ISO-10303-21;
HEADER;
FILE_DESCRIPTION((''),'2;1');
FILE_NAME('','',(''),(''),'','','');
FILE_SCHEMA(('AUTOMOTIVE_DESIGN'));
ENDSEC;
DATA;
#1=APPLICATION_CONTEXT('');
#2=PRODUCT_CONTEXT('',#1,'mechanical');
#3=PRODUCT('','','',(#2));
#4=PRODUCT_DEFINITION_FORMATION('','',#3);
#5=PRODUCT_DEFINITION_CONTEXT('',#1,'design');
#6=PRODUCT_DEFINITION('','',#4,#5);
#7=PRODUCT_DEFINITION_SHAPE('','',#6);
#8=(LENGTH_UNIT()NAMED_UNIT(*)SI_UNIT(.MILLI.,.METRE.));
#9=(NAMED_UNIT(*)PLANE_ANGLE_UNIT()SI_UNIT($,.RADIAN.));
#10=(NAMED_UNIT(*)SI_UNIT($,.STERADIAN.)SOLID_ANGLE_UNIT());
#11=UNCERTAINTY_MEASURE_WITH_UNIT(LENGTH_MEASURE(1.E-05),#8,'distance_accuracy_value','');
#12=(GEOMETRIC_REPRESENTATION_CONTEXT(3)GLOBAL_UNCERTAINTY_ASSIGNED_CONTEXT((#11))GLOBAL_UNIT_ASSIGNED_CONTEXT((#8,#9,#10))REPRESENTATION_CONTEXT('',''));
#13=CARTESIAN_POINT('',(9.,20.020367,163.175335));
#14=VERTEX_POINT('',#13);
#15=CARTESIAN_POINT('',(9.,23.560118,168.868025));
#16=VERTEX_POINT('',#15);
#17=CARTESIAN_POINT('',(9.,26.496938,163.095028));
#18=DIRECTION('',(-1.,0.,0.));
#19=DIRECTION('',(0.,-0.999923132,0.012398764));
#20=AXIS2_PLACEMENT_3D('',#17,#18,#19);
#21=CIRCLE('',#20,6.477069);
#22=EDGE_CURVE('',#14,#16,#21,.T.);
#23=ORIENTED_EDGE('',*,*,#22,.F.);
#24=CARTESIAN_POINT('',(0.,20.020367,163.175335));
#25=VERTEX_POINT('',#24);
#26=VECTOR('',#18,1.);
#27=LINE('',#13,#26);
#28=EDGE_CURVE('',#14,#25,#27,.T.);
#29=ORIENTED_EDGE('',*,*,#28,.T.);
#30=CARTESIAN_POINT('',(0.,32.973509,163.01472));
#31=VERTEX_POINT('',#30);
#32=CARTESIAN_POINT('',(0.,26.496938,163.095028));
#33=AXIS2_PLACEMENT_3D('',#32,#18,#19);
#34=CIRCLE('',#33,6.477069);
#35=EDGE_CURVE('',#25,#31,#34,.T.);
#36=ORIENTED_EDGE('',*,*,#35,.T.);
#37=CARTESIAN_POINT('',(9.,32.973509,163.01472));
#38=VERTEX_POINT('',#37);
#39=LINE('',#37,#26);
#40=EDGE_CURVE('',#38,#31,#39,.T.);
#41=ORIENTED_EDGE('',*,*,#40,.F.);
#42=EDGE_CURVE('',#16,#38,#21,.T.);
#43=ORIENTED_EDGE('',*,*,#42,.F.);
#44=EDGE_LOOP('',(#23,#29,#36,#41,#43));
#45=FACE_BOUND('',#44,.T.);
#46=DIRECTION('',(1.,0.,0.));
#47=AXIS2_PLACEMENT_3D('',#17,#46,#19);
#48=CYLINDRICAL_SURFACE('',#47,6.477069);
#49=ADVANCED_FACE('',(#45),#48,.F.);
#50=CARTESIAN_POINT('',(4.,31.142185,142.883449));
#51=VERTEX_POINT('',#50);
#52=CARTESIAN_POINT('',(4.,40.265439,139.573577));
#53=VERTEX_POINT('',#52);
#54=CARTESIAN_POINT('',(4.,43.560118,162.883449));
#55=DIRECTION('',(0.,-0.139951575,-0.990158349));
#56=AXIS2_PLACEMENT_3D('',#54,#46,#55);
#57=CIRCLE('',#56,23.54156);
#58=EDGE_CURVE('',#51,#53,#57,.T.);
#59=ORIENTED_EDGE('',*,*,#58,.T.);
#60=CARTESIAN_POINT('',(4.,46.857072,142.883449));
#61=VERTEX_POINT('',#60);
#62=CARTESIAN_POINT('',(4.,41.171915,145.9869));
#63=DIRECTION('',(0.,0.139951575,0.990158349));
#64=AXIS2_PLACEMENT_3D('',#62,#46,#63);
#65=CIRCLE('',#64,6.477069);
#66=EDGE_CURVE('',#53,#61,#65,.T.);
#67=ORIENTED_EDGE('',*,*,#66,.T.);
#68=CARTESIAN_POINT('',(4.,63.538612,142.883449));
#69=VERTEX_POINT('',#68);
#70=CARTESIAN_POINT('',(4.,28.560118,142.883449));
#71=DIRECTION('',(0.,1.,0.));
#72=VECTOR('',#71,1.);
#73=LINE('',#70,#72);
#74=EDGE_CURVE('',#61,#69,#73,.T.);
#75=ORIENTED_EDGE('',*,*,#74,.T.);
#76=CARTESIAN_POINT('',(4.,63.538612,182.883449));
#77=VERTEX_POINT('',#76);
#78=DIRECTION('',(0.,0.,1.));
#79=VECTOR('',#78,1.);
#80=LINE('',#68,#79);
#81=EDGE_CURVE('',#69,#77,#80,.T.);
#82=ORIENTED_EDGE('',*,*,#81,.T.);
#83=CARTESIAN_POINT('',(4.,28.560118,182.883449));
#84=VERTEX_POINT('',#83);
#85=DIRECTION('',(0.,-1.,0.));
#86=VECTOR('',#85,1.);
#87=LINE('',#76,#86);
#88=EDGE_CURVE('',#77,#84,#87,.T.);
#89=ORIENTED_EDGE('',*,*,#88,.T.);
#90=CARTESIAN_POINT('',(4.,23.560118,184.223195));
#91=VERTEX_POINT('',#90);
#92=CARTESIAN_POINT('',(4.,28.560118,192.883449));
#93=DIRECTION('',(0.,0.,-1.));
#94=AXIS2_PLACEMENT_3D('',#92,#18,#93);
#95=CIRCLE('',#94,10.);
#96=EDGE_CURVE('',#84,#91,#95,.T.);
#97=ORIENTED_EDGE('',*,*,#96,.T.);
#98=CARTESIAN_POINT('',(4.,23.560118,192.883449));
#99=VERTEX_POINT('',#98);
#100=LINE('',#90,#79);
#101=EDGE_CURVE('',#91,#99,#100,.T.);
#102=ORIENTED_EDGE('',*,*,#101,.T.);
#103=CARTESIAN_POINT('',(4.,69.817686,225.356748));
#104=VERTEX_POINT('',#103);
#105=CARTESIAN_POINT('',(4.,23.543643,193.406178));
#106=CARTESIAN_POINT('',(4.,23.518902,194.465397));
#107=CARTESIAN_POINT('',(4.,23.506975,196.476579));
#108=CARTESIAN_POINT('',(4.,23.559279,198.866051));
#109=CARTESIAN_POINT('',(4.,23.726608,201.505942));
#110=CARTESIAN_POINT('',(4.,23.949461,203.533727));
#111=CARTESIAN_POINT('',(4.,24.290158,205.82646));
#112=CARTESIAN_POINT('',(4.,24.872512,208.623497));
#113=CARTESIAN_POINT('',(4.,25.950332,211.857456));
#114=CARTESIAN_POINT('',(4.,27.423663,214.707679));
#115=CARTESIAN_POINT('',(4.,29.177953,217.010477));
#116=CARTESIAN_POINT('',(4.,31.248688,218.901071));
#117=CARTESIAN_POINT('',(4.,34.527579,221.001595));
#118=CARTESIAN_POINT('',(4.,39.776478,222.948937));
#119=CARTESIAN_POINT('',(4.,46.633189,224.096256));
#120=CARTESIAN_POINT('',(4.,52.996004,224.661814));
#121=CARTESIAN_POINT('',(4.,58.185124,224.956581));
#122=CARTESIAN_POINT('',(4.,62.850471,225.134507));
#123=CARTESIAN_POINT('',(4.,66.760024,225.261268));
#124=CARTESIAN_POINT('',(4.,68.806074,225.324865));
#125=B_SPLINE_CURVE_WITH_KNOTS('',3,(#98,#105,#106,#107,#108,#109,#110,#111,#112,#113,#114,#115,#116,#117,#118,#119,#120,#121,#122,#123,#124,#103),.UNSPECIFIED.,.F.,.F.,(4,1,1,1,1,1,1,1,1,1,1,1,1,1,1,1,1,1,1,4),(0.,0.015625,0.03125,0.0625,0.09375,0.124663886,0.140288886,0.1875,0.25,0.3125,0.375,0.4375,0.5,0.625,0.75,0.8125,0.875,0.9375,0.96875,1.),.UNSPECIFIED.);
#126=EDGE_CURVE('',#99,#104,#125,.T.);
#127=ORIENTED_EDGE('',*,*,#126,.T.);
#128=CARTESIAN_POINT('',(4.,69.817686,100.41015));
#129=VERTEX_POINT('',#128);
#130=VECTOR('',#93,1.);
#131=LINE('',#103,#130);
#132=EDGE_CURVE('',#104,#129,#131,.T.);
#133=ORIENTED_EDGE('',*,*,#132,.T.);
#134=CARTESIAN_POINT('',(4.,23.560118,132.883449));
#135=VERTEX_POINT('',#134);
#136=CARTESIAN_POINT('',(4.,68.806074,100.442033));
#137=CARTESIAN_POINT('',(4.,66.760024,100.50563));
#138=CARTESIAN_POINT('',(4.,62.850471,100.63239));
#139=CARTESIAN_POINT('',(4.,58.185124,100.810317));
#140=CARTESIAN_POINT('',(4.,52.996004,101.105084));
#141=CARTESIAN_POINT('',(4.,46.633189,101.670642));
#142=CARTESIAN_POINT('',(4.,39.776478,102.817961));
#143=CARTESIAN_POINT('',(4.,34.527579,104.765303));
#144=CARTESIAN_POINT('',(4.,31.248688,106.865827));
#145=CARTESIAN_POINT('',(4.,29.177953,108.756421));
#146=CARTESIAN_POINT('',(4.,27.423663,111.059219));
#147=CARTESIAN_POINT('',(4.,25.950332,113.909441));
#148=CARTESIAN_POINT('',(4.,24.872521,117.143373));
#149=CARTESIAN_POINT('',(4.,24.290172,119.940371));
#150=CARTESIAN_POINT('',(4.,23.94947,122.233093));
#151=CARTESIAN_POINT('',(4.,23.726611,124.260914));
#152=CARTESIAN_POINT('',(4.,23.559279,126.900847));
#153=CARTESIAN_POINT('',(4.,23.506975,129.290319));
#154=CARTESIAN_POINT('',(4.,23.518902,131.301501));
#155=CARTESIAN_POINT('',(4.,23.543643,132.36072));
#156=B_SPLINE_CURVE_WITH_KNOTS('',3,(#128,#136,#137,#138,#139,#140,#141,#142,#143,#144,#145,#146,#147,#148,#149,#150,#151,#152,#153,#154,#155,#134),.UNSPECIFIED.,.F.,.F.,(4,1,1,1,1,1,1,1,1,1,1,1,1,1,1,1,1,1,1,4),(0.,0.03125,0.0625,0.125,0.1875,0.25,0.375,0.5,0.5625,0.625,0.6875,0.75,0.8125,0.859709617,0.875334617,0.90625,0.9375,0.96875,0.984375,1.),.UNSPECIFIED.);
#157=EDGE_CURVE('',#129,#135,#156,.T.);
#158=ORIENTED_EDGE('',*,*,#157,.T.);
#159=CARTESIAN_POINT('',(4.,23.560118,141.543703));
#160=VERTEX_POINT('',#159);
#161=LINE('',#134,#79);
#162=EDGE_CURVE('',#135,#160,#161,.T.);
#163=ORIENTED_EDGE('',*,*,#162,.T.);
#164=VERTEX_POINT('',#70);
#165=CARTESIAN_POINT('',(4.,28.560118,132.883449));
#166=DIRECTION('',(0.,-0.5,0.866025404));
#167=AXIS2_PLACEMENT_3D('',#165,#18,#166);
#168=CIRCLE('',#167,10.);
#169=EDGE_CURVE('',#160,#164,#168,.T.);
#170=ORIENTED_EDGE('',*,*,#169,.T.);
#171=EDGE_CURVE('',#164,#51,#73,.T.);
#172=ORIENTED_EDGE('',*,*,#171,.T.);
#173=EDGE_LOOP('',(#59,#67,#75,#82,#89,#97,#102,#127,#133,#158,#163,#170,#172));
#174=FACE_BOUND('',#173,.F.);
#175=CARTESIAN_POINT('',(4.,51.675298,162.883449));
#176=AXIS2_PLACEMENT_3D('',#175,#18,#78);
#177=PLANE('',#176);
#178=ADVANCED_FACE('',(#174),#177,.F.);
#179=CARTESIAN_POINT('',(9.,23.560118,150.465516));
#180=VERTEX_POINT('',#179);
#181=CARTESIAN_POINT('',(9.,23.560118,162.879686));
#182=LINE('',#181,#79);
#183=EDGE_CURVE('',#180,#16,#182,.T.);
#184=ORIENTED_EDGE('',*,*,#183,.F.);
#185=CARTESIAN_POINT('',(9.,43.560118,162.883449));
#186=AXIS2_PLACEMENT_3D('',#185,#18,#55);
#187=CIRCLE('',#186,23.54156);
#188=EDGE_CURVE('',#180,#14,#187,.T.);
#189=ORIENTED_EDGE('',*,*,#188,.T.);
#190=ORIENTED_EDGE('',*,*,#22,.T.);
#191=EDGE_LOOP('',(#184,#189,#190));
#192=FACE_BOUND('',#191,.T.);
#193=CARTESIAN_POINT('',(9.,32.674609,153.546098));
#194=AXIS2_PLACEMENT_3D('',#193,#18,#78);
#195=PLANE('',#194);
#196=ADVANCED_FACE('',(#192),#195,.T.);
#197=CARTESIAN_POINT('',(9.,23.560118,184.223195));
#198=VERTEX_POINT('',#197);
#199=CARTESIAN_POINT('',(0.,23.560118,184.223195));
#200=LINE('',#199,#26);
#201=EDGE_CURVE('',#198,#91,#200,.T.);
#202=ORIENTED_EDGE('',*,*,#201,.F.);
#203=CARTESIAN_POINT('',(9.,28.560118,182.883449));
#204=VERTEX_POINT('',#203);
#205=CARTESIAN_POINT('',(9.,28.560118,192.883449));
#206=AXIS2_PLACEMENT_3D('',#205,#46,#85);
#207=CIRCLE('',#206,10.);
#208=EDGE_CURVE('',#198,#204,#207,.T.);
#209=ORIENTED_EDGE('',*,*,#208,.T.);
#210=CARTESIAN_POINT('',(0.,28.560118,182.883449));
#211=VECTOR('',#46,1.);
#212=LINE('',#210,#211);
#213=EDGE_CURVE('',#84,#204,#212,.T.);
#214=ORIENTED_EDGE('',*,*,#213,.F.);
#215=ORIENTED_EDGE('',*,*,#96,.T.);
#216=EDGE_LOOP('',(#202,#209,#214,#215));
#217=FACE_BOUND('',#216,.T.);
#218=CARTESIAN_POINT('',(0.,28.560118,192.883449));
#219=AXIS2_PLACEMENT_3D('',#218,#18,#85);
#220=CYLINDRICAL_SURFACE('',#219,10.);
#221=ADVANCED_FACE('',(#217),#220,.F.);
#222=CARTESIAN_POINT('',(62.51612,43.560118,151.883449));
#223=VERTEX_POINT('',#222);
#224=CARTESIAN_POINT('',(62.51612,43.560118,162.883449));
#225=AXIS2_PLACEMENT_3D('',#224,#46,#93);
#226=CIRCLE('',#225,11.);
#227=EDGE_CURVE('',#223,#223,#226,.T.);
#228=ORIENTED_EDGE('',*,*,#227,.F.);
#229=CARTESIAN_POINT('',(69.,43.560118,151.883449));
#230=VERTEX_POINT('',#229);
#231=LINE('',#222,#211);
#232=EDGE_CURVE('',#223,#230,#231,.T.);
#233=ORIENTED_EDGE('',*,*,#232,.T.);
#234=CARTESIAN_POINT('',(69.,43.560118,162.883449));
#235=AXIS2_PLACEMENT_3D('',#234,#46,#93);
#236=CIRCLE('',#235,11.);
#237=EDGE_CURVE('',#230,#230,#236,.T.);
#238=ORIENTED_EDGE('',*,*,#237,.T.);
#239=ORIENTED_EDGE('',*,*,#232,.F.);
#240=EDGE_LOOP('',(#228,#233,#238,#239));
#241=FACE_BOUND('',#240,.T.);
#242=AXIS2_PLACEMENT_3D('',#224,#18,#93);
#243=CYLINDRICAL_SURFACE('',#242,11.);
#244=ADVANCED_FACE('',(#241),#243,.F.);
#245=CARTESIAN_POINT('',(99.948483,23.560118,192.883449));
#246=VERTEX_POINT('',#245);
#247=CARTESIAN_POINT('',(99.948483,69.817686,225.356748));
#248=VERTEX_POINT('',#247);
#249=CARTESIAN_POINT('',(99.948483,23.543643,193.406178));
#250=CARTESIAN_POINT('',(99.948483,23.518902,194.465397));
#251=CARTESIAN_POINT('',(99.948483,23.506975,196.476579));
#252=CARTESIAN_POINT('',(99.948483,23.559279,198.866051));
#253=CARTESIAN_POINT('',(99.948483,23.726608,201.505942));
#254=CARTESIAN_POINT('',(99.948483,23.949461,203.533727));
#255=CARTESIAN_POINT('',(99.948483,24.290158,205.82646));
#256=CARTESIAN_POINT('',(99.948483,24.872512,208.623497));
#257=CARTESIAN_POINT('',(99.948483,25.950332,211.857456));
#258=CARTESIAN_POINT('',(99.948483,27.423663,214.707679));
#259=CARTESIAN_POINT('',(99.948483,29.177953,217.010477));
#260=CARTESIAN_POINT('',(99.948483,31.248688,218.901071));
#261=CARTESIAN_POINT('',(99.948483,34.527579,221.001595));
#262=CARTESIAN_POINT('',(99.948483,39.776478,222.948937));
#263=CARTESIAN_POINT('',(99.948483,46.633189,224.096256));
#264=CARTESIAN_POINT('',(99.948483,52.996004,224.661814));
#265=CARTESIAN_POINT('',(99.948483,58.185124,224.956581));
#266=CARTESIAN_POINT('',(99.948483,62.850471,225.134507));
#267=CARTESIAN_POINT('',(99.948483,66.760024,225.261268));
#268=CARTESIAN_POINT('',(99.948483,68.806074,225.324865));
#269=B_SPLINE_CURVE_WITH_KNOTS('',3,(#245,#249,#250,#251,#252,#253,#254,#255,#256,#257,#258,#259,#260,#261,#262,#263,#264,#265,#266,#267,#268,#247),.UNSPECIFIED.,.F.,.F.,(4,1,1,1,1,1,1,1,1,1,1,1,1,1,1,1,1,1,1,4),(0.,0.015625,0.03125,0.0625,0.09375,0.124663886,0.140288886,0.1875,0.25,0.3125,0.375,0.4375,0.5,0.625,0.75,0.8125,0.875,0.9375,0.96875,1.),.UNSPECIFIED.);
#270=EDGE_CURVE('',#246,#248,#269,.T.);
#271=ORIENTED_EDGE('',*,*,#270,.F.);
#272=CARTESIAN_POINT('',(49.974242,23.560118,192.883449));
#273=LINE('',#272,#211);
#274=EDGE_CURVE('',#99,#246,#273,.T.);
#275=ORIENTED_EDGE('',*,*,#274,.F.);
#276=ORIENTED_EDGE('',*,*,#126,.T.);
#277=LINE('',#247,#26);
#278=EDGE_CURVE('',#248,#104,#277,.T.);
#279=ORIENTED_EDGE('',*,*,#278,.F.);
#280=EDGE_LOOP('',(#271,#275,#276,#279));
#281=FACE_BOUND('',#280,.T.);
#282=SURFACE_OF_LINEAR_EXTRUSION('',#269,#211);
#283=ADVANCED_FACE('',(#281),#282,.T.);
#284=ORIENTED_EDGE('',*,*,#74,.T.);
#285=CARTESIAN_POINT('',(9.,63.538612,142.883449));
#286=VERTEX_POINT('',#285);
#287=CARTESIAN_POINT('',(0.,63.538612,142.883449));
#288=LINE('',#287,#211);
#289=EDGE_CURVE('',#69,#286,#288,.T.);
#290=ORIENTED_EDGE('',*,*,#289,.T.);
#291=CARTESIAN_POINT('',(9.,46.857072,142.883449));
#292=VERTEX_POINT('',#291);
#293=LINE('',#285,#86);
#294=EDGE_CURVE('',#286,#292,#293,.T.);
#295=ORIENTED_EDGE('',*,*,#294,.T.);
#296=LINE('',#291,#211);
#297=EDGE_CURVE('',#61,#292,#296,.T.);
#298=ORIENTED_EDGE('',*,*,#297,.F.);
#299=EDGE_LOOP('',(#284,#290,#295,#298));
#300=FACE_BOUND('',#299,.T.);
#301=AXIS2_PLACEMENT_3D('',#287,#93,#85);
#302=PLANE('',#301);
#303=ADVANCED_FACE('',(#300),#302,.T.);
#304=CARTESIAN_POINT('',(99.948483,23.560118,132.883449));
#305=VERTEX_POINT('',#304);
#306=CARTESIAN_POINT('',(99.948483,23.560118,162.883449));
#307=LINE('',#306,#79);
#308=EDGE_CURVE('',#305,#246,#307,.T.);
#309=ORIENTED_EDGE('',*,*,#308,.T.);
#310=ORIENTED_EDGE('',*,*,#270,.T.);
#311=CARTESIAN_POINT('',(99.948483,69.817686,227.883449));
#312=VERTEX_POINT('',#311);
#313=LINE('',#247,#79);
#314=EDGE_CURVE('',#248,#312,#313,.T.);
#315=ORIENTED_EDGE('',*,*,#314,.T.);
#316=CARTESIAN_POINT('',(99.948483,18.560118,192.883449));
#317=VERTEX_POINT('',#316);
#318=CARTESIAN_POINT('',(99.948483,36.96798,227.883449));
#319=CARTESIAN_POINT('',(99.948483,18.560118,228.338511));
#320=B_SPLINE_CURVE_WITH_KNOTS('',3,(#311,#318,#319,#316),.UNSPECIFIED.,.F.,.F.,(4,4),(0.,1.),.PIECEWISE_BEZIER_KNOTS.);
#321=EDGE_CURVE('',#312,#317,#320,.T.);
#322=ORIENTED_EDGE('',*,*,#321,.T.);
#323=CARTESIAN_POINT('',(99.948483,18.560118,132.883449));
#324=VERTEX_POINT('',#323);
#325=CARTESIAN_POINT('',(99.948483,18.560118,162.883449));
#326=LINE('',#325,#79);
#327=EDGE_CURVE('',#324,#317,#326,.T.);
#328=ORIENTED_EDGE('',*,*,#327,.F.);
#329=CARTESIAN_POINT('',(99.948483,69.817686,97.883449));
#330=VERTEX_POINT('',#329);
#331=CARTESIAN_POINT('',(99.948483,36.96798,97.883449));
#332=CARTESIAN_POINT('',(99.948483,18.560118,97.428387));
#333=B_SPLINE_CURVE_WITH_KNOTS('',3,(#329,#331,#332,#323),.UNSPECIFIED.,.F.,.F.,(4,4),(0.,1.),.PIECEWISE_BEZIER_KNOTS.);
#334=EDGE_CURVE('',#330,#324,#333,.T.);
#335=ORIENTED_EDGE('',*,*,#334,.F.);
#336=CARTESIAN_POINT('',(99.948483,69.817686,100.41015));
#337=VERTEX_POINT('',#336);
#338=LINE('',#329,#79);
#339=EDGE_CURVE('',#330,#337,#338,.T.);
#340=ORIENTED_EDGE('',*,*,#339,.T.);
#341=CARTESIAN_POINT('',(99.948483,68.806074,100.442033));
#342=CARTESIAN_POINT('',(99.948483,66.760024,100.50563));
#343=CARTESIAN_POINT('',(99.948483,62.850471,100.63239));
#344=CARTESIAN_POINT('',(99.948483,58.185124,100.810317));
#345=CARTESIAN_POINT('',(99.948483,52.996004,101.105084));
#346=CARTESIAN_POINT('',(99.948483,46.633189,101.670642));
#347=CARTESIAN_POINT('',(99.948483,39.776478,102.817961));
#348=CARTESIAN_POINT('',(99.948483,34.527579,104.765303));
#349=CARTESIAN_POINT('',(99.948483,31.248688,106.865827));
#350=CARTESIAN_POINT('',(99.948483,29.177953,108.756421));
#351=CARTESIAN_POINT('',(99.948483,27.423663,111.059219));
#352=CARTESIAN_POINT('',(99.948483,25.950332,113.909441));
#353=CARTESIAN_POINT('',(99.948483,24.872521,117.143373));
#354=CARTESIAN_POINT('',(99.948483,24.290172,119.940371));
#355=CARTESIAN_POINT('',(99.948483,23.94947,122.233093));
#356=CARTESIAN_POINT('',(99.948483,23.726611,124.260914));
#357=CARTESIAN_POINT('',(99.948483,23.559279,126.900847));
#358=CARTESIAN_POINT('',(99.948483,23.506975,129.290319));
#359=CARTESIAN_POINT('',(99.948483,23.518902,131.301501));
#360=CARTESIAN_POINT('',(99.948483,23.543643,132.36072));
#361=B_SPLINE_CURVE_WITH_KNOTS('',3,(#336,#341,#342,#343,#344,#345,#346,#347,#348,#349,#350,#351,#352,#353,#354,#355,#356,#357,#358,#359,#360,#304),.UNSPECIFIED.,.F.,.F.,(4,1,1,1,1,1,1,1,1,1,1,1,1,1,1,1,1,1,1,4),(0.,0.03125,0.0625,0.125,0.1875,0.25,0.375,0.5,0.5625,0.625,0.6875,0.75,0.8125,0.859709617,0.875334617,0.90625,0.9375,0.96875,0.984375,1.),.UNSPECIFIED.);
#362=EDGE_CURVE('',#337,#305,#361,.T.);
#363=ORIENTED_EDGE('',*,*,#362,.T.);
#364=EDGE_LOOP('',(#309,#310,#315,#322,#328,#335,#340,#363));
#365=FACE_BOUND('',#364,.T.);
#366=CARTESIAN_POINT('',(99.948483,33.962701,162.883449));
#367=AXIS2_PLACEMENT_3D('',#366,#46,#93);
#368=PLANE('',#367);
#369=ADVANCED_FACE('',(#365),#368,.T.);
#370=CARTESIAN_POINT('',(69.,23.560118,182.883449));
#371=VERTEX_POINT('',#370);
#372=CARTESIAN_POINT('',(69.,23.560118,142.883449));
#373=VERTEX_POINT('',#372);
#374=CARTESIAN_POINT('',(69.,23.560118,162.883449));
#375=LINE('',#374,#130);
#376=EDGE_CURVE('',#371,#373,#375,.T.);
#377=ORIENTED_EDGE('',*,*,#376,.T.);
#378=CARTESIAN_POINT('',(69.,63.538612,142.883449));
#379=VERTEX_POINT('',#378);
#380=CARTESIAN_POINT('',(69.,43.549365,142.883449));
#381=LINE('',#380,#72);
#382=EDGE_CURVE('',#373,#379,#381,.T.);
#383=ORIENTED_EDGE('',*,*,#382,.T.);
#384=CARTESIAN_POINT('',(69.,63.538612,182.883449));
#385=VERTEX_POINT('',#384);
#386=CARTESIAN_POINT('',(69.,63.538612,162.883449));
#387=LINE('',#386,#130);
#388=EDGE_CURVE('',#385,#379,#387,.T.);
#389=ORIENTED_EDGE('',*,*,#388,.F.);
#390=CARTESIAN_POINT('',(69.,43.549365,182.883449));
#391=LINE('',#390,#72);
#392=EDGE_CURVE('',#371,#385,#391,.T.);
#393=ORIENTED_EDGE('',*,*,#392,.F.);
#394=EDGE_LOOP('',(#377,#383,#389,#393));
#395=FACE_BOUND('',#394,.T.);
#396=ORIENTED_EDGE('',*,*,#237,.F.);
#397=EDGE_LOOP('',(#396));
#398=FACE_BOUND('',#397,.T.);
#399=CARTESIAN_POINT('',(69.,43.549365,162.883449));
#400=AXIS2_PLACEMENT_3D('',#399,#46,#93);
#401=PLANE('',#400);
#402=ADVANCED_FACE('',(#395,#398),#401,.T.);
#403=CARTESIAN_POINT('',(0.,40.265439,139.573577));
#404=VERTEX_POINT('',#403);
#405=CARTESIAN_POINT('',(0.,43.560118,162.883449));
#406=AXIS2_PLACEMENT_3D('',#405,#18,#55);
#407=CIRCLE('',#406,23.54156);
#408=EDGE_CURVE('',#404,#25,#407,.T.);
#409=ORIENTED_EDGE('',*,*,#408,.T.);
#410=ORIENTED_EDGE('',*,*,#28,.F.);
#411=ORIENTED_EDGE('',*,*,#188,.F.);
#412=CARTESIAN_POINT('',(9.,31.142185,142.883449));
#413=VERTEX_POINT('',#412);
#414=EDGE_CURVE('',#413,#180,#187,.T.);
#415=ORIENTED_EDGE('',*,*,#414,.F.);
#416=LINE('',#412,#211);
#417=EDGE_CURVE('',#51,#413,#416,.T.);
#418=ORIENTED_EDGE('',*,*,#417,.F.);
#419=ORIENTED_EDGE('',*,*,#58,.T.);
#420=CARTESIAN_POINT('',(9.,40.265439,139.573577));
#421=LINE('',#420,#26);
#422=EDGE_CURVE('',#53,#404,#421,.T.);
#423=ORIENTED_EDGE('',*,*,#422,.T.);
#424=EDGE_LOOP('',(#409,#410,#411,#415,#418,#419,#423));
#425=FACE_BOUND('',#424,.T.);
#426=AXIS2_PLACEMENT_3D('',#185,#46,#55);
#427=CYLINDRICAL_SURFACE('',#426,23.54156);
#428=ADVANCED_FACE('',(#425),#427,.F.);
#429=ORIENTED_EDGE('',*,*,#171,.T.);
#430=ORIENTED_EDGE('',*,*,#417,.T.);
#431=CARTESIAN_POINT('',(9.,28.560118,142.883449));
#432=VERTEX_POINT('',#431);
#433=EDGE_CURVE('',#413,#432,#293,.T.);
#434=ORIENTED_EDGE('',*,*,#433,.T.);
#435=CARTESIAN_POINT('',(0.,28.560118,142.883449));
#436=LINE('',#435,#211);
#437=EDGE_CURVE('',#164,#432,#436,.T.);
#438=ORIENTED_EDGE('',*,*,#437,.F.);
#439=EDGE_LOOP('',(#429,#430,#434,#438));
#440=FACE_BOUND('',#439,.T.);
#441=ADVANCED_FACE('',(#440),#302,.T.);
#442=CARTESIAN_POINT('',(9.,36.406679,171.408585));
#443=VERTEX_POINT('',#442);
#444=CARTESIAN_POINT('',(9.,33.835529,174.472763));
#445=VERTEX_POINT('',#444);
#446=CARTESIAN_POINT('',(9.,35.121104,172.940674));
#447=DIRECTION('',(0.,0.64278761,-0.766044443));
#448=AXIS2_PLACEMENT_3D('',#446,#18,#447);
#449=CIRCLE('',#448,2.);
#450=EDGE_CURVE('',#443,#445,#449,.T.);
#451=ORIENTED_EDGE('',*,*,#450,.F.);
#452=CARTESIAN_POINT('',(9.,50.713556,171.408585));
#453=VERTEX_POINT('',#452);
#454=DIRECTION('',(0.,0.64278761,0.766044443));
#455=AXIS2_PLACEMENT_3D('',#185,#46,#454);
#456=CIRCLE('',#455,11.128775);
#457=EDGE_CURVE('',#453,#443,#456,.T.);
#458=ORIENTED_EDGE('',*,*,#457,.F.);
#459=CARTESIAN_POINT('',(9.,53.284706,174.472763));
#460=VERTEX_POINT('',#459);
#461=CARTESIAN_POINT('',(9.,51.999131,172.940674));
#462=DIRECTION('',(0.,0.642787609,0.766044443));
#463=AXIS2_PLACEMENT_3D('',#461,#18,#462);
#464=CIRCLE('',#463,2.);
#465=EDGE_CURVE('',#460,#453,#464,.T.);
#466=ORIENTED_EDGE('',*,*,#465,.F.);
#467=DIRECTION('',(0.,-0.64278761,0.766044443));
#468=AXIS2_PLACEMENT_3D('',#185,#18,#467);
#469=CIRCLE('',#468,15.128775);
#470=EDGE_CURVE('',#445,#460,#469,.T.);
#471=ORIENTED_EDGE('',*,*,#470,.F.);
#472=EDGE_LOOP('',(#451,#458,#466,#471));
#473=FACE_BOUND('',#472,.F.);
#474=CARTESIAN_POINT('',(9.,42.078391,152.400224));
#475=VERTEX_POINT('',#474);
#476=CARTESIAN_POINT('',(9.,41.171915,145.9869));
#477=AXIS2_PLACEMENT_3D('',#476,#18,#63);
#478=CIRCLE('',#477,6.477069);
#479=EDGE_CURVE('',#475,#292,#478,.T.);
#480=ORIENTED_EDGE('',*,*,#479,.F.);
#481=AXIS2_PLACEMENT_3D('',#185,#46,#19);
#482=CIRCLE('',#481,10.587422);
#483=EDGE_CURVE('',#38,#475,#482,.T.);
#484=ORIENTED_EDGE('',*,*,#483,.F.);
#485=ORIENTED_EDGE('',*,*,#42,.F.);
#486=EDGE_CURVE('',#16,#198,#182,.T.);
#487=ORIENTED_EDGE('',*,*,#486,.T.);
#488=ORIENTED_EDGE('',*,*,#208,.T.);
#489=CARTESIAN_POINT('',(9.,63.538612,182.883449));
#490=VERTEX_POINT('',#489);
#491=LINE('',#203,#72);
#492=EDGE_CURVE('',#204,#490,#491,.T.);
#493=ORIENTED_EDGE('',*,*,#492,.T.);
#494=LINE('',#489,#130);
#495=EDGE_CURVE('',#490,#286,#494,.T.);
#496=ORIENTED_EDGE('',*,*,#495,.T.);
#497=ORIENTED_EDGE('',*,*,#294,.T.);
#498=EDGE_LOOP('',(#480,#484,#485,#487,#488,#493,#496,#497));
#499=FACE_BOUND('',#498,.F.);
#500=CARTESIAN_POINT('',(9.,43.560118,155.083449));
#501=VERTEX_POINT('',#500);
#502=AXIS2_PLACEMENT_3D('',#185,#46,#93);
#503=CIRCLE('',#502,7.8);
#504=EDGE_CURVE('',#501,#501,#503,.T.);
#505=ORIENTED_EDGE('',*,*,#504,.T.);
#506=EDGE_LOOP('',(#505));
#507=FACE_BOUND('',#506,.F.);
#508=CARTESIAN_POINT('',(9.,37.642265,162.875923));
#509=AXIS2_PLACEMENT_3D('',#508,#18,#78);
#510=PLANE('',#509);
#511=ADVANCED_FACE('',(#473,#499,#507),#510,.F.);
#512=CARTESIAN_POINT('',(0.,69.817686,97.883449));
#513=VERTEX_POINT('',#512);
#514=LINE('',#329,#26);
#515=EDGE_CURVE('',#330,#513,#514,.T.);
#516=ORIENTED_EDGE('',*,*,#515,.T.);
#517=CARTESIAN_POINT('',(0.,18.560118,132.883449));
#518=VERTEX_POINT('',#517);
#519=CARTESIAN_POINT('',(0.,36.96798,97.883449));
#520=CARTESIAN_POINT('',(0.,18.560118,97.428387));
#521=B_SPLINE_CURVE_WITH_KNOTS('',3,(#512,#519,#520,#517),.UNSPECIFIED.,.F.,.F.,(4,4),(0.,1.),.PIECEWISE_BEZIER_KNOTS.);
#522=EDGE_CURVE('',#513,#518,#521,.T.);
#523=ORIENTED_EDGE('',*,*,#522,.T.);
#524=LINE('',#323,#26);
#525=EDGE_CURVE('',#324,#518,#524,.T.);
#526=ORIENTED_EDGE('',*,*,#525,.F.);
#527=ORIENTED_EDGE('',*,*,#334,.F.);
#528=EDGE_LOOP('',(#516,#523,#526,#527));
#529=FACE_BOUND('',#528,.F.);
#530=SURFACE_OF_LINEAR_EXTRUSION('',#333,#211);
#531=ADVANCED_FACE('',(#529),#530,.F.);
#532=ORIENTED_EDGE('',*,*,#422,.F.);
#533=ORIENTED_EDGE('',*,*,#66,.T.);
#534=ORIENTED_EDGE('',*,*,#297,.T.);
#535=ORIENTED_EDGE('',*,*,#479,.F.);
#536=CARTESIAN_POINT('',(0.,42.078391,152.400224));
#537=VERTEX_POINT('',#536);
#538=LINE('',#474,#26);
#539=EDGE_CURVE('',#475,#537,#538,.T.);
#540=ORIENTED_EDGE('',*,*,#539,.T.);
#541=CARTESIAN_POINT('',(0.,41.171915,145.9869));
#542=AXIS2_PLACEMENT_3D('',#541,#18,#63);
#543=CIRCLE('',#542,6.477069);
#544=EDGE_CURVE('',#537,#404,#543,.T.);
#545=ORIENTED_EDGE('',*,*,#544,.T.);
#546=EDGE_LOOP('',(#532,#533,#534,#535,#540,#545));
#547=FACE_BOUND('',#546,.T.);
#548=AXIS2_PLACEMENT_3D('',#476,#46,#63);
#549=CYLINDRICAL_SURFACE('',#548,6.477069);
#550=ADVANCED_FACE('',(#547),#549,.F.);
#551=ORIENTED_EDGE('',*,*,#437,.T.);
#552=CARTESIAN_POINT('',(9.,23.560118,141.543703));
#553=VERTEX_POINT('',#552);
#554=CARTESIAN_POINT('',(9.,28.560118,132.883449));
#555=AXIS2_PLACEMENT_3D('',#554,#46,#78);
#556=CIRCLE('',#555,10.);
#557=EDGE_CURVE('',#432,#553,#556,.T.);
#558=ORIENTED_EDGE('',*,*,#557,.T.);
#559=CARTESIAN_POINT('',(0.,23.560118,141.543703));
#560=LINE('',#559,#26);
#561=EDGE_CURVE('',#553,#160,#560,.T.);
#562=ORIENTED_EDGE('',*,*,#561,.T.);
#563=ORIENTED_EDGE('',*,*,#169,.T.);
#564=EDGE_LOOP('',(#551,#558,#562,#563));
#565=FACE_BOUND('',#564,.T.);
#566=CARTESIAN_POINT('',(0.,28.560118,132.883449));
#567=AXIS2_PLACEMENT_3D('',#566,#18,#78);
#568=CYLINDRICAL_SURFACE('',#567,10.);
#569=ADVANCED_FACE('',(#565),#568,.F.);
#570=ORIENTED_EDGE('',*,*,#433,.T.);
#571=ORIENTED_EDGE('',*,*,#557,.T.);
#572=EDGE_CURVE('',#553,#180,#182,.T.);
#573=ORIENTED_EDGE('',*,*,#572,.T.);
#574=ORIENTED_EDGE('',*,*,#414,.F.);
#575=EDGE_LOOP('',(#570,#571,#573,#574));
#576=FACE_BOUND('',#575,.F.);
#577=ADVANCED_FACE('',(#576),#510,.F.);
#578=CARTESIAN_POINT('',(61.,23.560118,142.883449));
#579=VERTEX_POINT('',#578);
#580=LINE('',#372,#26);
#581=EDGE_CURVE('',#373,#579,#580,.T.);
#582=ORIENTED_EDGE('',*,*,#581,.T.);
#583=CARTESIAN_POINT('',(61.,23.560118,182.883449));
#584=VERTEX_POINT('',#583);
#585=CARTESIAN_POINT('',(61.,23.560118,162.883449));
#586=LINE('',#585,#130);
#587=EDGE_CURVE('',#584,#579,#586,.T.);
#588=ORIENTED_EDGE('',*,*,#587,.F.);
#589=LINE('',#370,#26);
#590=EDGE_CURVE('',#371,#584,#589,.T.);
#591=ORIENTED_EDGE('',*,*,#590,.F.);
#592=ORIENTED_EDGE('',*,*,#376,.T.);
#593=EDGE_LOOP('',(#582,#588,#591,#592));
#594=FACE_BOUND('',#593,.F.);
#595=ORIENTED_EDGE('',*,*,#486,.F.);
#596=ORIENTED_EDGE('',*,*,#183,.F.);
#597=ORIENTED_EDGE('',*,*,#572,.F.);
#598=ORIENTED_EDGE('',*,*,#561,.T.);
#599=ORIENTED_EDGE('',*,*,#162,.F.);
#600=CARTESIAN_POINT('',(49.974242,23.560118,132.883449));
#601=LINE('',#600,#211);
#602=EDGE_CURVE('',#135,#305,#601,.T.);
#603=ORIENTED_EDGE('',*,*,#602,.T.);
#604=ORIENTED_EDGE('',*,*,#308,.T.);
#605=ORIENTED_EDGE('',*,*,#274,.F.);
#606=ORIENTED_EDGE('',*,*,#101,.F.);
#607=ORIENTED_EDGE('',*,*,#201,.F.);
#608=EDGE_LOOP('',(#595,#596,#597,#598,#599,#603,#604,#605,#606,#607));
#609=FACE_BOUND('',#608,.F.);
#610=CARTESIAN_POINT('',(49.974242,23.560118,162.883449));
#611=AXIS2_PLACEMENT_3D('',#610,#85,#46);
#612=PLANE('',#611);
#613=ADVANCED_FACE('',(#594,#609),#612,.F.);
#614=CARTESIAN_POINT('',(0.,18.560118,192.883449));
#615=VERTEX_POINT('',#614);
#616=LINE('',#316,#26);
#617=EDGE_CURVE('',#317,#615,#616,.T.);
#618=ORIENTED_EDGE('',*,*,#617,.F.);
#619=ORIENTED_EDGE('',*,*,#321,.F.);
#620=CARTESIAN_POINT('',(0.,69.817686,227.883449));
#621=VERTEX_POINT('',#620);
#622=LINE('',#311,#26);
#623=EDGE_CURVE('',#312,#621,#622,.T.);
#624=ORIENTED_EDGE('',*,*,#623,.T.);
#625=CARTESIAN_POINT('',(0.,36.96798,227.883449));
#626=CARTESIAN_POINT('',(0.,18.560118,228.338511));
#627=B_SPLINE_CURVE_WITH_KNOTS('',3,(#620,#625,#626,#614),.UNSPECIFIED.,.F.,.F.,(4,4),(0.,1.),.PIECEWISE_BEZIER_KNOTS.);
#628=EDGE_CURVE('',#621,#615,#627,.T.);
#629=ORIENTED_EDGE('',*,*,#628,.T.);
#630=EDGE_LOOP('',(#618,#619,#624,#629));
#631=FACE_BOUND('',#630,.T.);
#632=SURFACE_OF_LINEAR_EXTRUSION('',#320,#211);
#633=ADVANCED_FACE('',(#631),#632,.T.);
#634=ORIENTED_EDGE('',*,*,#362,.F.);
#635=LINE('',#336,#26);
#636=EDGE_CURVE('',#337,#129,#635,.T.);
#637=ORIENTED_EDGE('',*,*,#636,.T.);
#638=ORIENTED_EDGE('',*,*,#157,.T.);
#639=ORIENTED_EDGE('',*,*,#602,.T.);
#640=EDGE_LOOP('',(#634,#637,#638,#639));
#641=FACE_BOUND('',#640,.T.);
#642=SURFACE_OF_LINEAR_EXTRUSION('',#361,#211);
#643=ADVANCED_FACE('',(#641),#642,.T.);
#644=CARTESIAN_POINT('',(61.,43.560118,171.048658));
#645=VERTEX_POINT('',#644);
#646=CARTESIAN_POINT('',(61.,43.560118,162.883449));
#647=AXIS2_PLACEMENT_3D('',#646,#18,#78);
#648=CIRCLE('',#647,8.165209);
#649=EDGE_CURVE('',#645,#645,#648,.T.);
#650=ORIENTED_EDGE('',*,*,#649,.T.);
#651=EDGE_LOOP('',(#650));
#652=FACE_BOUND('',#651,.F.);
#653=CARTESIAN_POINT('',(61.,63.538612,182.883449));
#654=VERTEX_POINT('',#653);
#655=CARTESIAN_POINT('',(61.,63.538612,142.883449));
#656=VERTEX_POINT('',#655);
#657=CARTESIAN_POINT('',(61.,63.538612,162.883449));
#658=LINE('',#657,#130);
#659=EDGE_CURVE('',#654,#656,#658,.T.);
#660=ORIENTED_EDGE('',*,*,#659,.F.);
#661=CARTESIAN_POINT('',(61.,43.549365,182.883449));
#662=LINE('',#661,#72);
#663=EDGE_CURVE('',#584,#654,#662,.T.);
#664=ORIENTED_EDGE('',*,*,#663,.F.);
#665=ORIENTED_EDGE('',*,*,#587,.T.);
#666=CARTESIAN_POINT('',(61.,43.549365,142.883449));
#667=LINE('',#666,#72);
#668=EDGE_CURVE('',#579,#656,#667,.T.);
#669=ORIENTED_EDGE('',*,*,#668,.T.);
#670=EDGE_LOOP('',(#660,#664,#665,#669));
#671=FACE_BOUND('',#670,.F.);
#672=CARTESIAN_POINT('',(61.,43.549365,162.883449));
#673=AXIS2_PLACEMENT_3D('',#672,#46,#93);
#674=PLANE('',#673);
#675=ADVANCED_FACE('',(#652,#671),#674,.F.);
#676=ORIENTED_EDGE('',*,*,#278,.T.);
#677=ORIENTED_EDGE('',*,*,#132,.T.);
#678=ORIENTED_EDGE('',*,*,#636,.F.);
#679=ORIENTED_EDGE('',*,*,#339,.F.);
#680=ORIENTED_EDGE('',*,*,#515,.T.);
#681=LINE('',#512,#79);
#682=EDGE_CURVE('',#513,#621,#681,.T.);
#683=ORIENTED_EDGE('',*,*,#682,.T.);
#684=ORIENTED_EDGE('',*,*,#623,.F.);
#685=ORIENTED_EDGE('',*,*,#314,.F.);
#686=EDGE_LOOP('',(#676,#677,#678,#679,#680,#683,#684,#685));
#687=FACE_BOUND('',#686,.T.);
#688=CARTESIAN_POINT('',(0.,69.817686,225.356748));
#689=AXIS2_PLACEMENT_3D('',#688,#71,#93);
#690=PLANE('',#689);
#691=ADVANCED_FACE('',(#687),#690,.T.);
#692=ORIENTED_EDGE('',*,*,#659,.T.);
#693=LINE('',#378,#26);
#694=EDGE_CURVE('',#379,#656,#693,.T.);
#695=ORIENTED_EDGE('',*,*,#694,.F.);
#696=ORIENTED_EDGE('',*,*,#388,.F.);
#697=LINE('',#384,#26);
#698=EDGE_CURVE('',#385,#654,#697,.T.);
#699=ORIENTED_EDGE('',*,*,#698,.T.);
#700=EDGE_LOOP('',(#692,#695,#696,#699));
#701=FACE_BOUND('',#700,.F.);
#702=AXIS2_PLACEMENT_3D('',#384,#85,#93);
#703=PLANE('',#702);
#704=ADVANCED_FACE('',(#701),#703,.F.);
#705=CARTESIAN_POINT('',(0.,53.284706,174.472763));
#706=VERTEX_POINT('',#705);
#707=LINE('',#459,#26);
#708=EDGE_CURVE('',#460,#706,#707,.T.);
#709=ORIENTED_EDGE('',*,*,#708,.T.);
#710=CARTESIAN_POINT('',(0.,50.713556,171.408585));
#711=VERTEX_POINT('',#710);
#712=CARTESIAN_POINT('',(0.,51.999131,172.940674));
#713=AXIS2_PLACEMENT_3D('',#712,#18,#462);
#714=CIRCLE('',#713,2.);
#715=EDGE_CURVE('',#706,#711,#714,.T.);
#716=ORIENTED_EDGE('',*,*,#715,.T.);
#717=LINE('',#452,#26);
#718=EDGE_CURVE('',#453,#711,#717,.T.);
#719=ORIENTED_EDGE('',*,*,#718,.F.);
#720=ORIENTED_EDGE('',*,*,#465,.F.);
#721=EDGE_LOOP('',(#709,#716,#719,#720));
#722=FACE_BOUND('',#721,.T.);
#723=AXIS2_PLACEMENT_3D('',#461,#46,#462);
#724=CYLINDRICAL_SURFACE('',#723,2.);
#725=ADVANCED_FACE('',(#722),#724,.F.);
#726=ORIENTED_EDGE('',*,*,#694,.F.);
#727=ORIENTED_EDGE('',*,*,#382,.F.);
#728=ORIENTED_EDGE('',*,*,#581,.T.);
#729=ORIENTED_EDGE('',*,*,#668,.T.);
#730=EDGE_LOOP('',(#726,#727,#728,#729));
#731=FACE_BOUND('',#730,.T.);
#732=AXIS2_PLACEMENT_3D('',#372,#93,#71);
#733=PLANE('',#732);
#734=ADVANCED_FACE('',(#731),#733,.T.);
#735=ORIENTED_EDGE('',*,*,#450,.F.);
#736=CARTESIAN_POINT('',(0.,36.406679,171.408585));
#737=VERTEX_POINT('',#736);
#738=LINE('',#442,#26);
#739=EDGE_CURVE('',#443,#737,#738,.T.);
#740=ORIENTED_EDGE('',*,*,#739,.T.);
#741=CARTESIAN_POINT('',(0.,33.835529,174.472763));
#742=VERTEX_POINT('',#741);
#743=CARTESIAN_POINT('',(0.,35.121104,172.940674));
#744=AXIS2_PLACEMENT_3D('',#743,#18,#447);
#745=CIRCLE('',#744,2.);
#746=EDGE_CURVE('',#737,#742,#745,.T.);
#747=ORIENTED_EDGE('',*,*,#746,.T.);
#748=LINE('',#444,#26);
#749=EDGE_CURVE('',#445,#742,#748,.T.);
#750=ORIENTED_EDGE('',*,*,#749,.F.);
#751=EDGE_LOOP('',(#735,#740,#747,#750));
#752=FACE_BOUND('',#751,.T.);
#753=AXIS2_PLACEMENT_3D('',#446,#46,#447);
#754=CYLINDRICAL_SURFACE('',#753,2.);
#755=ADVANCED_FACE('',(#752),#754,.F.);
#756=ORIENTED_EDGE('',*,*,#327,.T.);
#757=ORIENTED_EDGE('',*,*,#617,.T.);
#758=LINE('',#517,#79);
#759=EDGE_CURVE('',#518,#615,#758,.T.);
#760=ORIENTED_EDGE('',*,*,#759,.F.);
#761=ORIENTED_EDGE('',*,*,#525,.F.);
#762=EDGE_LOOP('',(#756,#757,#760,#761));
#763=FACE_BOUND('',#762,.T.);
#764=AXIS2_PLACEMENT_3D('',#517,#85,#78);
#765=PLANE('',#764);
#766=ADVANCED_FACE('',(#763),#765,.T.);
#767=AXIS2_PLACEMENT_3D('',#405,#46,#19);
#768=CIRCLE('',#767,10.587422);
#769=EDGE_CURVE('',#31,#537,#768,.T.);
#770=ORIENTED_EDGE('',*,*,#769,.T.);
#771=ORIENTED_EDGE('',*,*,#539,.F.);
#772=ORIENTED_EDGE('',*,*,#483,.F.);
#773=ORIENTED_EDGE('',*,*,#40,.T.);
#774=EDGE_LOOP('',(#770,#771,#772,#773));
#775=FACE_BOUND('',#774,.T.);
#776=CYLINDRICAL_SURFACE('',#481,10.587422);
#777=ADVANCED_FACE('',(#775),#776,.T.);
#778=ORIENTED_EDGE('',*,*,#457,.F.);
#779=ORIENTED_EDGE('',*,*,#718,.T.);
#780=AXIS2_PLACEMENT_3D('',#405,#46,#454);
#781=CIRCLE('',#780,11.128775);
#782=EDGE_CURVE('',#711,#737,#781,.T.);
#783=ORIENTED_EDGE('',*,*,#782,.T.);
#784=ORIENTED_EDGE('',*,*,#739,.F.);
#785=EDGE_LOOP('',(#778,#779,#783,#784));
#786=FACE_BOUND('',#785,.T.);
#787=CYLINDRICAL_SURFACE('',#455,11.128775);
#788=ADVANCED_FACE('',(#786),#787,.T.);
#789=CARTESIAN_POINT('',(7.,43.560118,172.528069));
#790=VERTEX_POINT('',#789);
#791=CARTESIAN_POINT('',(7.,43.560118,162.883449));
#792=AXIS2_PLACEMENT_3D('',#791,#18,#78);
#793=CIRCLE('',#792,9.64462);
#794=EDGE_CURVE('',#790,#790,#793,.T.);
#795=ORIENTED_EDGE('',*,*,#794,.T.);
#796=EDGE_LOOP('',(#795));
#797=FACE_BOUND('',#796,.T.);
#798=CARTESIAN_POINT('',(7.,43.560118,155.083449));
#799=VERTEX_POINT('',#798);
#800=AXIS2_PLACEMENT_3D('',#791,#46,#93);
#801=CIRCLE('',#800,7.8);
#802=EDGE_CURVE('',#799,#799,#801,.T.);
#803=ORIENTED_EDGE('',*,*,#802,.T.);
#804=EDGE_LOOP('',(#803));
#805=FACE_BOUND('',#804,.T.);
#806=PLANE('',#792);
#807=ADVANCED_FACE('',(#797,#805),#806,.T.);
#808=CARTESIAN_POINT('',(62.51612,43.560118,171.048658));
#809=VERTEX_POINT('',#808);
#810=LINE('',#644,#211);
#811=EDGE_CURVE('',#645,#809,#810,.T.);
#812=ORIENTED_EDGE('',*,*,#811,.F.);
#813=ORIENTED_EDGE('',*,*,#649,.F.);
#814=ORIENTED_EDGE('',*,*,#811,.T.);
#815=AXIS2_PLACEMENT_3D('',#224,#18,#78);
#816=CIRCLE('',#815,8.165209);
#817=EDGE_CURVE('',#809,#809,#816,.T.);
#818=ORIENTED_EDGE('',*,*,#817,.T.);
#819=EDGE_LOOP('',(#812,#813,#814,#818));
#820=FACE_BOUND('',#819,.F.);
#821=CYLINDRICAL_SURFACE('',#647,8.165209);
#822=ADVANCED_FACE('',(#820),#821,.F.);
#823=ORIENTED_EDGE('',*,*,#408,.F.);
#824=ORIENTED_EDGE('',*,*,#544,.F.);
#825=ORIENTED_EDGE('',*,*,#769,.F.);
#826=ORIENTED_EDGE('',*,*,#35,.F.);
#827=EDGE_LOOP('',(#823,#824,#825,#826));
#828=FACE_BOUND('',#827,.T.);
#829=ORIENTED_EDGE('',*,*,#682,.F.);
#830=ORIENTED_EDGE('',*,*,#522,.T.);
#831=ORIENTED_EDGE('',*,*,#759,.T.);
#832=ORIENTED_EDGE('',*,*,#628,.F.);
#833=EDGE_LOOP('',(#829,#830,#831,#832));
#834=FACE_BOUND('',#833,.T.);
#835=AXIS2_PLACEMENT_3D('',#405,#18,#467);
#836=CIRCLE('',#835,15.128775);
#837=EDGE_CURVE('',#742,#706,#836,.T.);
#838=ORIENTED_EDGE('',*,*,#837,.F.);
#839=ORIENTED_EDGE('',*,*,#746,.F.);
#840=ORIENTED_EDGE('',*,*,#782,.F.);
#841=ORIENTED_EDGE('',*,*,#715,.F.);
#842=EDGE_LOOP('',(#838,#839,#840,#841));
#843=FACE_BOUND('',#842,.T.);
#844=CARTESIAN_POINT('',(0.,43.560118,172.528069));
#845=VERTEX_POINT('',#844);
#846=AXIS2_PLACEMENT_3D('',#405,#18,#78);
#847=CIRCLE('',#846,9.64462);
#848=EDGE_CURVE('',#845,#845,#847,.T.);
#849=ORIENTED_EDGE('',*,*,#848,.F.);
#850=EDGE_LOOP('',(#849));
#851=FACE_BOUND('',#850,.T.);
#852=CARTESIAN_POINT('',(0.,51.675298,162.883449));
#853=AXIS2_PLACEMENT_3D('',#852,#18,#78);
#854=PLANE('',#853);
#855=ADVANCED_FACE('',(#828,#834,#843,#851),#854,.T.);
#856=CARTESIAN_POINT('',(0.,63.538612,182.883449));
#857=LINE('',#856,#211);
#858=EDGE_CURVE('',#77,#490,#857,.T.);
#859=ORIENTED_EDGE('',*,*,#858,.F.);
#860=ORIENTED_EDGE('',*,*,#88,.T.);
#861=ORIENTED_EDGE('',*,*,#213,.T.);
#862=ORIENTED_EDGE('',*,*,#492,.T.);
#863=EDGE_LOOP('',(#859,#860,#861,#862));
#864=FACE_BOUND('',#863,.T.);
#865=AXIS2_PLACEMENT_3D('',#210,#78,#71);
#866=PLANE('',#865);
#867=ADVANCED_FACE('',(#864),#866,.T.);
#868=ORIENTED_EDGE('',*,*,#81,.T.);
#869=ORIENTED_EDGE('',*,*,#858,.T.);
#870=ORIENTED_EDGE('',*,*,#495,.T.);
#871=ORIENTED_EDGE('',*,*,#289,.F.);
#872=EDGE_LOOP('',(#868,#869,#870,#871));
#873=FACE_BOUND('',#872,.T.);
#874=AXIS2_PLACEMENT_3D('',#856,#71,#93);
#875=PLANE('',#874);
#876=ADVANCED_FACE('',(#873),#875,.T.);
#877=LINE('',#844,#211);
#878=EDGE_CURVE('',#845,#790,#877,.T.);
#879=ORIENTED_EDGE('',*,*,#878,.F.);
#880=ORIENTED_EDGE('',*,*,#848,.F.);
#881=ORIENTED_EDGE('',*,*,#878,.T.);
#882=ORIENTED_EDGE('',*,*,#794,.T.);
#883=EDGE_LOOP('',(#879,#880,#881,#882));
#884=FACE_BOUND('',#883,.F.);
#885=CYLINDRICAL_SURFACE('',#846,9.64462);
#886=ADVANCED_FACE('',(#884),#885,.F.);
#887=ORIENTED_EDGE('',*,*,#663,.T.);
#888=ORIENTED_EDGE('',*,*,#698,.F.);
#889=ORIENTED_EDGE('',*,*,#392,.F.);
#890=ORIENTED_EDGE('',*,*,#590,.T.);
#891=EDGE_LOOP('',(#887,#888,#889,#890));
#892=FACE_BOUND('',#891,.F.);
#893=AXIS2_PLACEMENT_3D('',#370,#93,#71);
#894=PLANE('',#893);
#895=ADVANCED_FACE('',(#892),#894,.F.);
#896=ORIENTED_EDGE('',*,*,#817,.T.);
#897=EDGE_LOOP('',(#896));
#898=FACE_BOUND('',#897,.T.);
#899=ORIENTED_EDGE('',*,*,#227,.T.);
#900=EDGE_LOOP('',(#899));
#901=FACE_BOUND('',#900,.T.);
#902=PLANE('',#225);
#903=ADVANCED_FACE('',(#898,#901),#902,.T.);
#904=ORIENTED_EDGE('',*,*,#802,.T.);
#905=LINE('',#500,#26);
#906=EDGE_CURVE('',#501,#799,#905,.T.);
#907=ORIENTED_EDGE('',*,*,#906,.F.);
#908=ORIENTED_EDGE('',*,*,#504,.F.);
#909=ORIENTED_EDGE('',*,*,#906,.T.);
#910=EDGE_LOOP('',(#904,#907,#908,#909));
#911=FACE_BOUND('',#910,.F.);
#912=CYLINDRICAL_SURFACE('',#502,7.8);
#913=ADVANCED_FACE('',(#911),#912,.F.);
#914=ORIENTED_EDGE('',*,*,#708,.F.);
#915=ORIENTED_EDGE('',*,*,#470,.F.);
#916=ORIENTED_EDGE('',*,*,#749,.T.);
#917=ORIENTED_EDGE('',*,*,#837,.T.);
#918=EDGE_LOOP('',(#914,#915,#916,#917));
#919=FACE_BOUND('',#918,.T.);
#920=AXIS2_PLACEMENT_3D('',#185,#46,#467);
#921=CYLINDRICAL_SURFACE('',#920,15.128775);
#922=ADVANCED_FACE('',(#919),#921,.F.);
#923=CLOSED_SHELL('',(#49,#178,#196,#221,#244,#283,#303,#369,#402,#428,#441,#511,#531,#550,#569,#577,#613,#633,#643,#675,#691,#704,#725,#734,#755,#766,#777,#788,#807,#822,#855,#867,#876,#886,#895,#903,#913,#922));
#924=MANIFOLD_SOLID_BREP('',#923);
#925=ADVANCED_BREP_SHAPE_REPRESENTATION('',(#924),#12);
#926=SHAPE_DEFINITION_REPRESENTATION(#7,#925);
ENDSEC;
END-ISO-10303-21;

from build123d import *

# Parameters (mm, degrees)
BOSS_EXTRU_2_DEPTH      = 9
ESQUISSE3_R             = 9.644620121
ENL_V_MAT_EXTRU_1_DEPTH = 7
ESQUISSE5_R             = 7.8
ENL_V_MAT_EXTRU_2_DEPTH = 6
ESQUISSE6_W             = 99.948483018
ESQUISSE6_H             = 60
BOSS_EXTRU_3_DEPTH      = 5
ESQUISSE7_W             = 40
ESQUISSE7_H             = 39.978494119
BOSS_EXTRU_4_DEPTH      = 8
ENL_V_START             = -6.48388
ESQUISSE8_R             = 11
ENL_V_MAT_EXTRU_3_DEPTH = 6.48388
ESQUISSE9_R             = 8.165208678
ENL_V_MAT_EXTRU_4_DEPTH = 5
BOSS_EXTRU_5_DEPTH      = 99.948483018
BOSS_EXTRU_6_DEPTH      = 4
ENL_V_START_2           = -9
ENL_V_MAT_EXTRU_5_DEPTH = 9


with BuildPart() as part:
    # Esquisse2 → Boss.-Extru.2 (new body)
    with BuildSketch(Plane.ZY):
        with BuildLine():
            Line((142.883448923, 63.538611727), (142.883448923, 43.560117608))
            Line((142.883448923, 43.560117608), (142.883448923, 28.560117608))
            ThreePointArc((142.883448923, 28.560117608), (142.005344344, 24.462432419), (139.52524414, 21.084386454))
            ThreePointArc((139.52524414, 21.084386454), (136.436102048, 19.212462514), (132.883448923, 18.560117608))
            Line((132.883448923, 18.560117608), (192.883448923, 18.560117608))
            ThreePointArc((192.883448923, 18.560117608), (185.812381111, 21.489049797), (182.883448923, 28.560117608))
            Line((182.883448923, 28.560117608), (182.883448923, 43.560117608))
            Line((182.883448923, 43.560117608), (182.883448923, 63.538611727))
            Line((182.883448923, 63.538611727), (163.81068824, 63.538611727))
            Line((163.81068824, 63.538611727), (161.956209605, 63.538611727))
            Line((161.956209605, 63.538611727), (142.883448923, 63.538611727))
        make_face()
    extrude(amount=-BOSS_EXTRU_2_DEPTH)

    # Esquisse3 → Enlèv. mat.-Extru.1 (cut)
    with BuildSketch(Plane.ZY):
        with Locations((162.883448923, 43.560117608)):
            Circle(ESQUISSE3_R)
    extrude(amount=-ENL_V_MAT_EXTRU_1_DEPTH, mode=Mode.SUBTRACT)

    # Esquisse5 → Enlèv. mat.-Extru.2 (cut)
    with BuildSketch(Plane(origin=(9, 0, 0), x_dir=(0, 0, -1), z_dir=(1, 0, 0))):
        with Locations((-162.883448923, 43.560117608)):
            Circle(ESQUISSE5_R)
    extrude(amount=-ENL_V_MAT_EXTRU_2_DEPTH, mode=Mode.SUBTRACT)

    # Esquisse6 → Boss.-Extru.3 (add)
    with BuildSketch(Plane.XZ.offset(-18.560117608)):
        with Locations((49.974241509, 162.883448923)):
            Rectangle(ESQUISSE6_W, ESQUISSE6_H)
    extrude(amount=-BOSS_EXTRU_3_DEPTH)

    # Esquisse7 → Boss.-Extru.4 (add)
    with BuildSketch(Plane(origin=(69, 0, 0), x_dir=(0, 0, -1), z_dir=(1, 0, 0))):
        with Locations((-162.883448923, 43.549364668)):
            Rectangle(ESQUISSE7_W, ESQUISSE7_H)
    extrude(amount=-BOSS_EXTRU_4_DEPTH)

    # Esquisse8 → Enlèv. mat.-Extru.3 (cut)
    with BuildSketch(Plane(origin=(69, 0, 0), x_dir=(0, 0, -1), z_dir=(1, 0, 0)).offset(ENL_V_START)):
        with Locations((-162.883448923, 43.560117608)):
            Circle(ESQUISSE8_R)
    extrude(amount=ENL_V_MAT_EXTRU_3_DEPTH, mode=Mode.SUBTRACT)

    # Esquisse9 → Enlèv. mat.-Extru.4 (cut)
    with BuildSketch(Plane.ZY.offset(-61)):
        with Locations((162.883448923, 43.560117608)):
            Circle(ESQUISSE9_R)
    extrude(amount=-ENL_V_MAT_EXTRU_4_DEPTH, mode=Mode.SUBTRACT)

    # Esquisse10 → Boss.-Extru.5 (add)
    with BuildSketch(Plane(origin=(99.948483018, 0, 0), x_dir=(0, 0, -1), z_dir=(1, 0, 0))):
        with BuildLine():
            Line((-97.883448923, 69.817685904), (-100.410150097, 69.817685904))
            add(Edge.make_bspline(
                [(-100.410150097, 69.817685904), (-100.442033213, 68.80607378), (-100.50563029, 66.760024387), (-100.63239049, 62.850470513), (-100.810316501, 58.185123949), (-101.105084062, 52.996004141), (-101.670642078, 46.633188552), (-102.817961278, 39.776477829), (-104.76530294, 34.527578685), (-106.865826561, 31.248687809), (-108.756421045, 29.177953286), (-111.059219045, 27.42366281), (-113.90944146, 25.950331771), (-117.143373053, 24.872521409), (-119.940370542, 24.290171621), (-122.233093244, 23.949469798), (-124.260913893, 23.72661052), (-126.900847008, 23.559278589), (-129.29031887, 23.506975385), (-131.301500979, 23.518901656), (-132.360719769, 23.543642683), (-132.883448923, 23.560117608)],
                knots=[0, 0, 0, 0, 0.03125, 0.0625, 0.125, 0.1875, 0.25, 0.375, 0.5, 0.5625, 0.625, 0.6875, 0.75, 0.8125, 0.859709617, 0.875334617, 0.90625, 0.9375, 0.96875, 0.984375, 1, 1, 1, 1], degree=3))
            Line((-132.883448923, 23.560117608), (-192.883448923, 23.560117608))
            add(Edge.make_bspline(
                [(-192.883448923, 23.560117608), (-193.406178076, 23.543642683), (-194.465396866, 23.518901656), (-196.476578975, 23.506975385), (-198.866050837, 23.559278589), (-201.50594164, 23.726607838), (-203.533727382, 23.949460813), (-205.826459718, 24.290158055), (-208.623496676, 24.872512038), (-211.857456385, 25.950331771), (-214.7076788, 27.42366281), (-217.0104768, 29.177953286), (-218.901071284, 31.248687809), (-221.001594905, 34.527578685), (-222.948936567, 39.776477829), (-224.096255768, 46.633188552), (-224.661813783, 52.996004141), (-224.956581344, 58.185123949), (-225.134507355, 62.850470513), (-225.261267555, 66.760024387), (-225.324864632, 68.80607378), (-225.356747748, 69.817685904)],
                knots=[0, 0, 0, 0, 0.015625, 0.03125, 0.0625, 0.09375, 0.124663886, 0.140288886, 0.1875, 0.25, 0.3125, 0.375, 0.4375, 0.5, 0.625, 0.75, 0.8125, 0.875, 0.9375, 0.96875, 1, 1, 1, 1], degree=3))
            Line((-225.356747748, 69.817685904), (-227.883448923, 69.817685904))
            add(Edge.make_bspline(
                [(-227.883448923, 69.817685904), (-227.883448923, 36.967980152), (-228.338510952, 18.560117608), (-192.883448923, 18.560117608)],
                knots=[0, 0, 0, 0, 1, 1, 1, 1], degree=3))
            Line((-192.883448923, 18.560117608), (-132.883448923, 18.560117608))
            add(Edge.make_bspline(
                [(-97.883448923, 69.817685904), (-97.883448923, 36.967980152), (-97.428386893, 18.560117608), (-132.883448923, 18.560117608)],
                knots=[0, 0, 0, 0, 1, 1, 1, 1], degree=3))
        make_face()
    extrude(amount=-BOSS_EXTRU_5_DEPTH)

    # Esquisse11 → Boss.-Extru.6 (add)
    with BuildSketch(Plane.ZY):
        with BuildLine():
            Line((225.356747748, 69.817685904), (100.410150097, 69.817685904))
            add(Edge.make_bspline(
                [(100.410150097, 69.817685904), (100.442033213, 68.80607378), (100.50563029, 66.760024387), (100.63239049, 62.850470513), (100.810316501, 58.185123949), (101.105084062, 52.996004141), (101.670642078, 46.633188552), (102.817961278, 39.776477829), (104.76530294, 34.527578685), (106.865826561, 31.248687809), (108.756421045, 29.177953286), (111.059219045, 27.42366281), (113.90944146, 25.950331771), (117.143373053, 24.872521409), (119.940370542, 24.290171621), (122.233093244, 23.949469798), (124.260913893, 23.72661052), (126.900847008, 23.559278589), (129.29031887, 23.506975385), (131.301500979, 23.518901656), (132.360719769, 23.543642683), (132.883448923, 23.560117608)],
                knots=[0, 0, 0, 0, 0.03125, 0.0625, 0.125, 0.1875, 0.25, 0.375, 0.5, 0.5625, 0.625, 0.6875, 0.75, 0.8125, 0.859709617, 0.875334617, 0.90625, 0.9375, 0.96875, 0.984375, 1, 1, 1, 1], degree=3))
            Line((132.883448923, 23.560117608), (141.54370296, 23.560117608))
            ThreePointArc((141.54370296, 23.560117608), (142.542707185, 25.971927157), (142.883448923, 28.560117608))
            Line((142.883448923, 28.560117608), (142.883448923, 63.538611727))
            Line((142.883448923, 63.538611727), (182.883448923, 63.538611727))
            Line((182.883448923, 63.538611727), (182.883448923, 28.560117608))
            ThreePointArc((182.883448923, 28.560117608), (183.22419066, 25.971927157), (184.223194885, 23.560117608))
            Line((184.223194885, 23.560117608), (192.883448923, 23.560117608))
            add(Edge.make_bspline(
                [(192.883448923, 23.560117608), (193.406178076, 23.543642683), (194.465396866, 23.518901656), (196.476578975, 23.506975385), (198.866050837, 23.559278589), (201.50594164, 23.726607838), (203.533727382, 23.949460813), (205.826459718, 24.290158055), (208.623496676, 24.872512038), (211.857456385, 25.950331771), (214.7076788, 27.42366281), (217.0104768, 29.177953286), (218.901071284, 31.248687809), (221.001594905, 34.527578685), (222.948936567, 39.776477829), (224.096255768, 46.633188552), (224.661813783, 52.996004141), (224.956581344, 58.185123949), (225.134507355, 62.850470513), (225.261267555, 66.760024387), (225.324864632, 68.80607378), (225.356747748, 69.817685904)],
                knots=[0, 0, 0, 0, 0.015625, 0.03125, 0.0625, 0.09375, 0.124663886, 0.140288886, 0.1875, 0.25, 0.3125, 0.375, 0.4375, 0.5, 0.625, 0.75, 0.8125, 0.875, 0.9375, 0.96875, 1, 1, 1, 1], degree=3))
        make_face()
    extrude(amount=-BOSS_EXTRU_6_DEPTH)

    # Esquisse12 → Enlèv. mat.-Extru.5 (cut)
    with BuildSketch(Plane.ZY.offset(ENL_V_START_2)):
        with BuildLine():
            ThreePointArc((163.014719877, 32.973509037), (155.990303326, 35.524070266), (152.400224234, 42.078391173))
            ThreePointArc((152.400224234, 42.078391173), (145.080424512, 47.585238943), (139.573576742, 40.265439221))
            ThreePointArc((139.573576742, 40.265439221), (147.556262152, 25.691642787), (163.175335174, 20.020367203))
            ThreePointArc((163.175335174, 20.020367203), (169.571598443, 26.577245769), (163.014719877, 32.973509037))
        make_face()
        with BuildLine():
            ThreePointArc((171.408584799, 50.713555978), (174.012223438, 43.560117608), (171.408584799, 36.406679239))
            ThreePointArc((171.408584799, 36.406679239), (171.655098465, 33.589015134), (174.472762571, 33.8355288))
            ThreePointArc((174.472762571, 33.8355288), (178.012223438, 43.560117608), (174.472762571, 53.284706416))
            ThreePointArc((174.472762571, 53.284706416), (171.655098465, 53.531220083), (171.408584799, 50.713555978))
        make_face()
    extrude(amount=ENL_V_MAT_EXTRU_5_DEPTH, mode=Mode.SUBTRACT)


solid = part.part
